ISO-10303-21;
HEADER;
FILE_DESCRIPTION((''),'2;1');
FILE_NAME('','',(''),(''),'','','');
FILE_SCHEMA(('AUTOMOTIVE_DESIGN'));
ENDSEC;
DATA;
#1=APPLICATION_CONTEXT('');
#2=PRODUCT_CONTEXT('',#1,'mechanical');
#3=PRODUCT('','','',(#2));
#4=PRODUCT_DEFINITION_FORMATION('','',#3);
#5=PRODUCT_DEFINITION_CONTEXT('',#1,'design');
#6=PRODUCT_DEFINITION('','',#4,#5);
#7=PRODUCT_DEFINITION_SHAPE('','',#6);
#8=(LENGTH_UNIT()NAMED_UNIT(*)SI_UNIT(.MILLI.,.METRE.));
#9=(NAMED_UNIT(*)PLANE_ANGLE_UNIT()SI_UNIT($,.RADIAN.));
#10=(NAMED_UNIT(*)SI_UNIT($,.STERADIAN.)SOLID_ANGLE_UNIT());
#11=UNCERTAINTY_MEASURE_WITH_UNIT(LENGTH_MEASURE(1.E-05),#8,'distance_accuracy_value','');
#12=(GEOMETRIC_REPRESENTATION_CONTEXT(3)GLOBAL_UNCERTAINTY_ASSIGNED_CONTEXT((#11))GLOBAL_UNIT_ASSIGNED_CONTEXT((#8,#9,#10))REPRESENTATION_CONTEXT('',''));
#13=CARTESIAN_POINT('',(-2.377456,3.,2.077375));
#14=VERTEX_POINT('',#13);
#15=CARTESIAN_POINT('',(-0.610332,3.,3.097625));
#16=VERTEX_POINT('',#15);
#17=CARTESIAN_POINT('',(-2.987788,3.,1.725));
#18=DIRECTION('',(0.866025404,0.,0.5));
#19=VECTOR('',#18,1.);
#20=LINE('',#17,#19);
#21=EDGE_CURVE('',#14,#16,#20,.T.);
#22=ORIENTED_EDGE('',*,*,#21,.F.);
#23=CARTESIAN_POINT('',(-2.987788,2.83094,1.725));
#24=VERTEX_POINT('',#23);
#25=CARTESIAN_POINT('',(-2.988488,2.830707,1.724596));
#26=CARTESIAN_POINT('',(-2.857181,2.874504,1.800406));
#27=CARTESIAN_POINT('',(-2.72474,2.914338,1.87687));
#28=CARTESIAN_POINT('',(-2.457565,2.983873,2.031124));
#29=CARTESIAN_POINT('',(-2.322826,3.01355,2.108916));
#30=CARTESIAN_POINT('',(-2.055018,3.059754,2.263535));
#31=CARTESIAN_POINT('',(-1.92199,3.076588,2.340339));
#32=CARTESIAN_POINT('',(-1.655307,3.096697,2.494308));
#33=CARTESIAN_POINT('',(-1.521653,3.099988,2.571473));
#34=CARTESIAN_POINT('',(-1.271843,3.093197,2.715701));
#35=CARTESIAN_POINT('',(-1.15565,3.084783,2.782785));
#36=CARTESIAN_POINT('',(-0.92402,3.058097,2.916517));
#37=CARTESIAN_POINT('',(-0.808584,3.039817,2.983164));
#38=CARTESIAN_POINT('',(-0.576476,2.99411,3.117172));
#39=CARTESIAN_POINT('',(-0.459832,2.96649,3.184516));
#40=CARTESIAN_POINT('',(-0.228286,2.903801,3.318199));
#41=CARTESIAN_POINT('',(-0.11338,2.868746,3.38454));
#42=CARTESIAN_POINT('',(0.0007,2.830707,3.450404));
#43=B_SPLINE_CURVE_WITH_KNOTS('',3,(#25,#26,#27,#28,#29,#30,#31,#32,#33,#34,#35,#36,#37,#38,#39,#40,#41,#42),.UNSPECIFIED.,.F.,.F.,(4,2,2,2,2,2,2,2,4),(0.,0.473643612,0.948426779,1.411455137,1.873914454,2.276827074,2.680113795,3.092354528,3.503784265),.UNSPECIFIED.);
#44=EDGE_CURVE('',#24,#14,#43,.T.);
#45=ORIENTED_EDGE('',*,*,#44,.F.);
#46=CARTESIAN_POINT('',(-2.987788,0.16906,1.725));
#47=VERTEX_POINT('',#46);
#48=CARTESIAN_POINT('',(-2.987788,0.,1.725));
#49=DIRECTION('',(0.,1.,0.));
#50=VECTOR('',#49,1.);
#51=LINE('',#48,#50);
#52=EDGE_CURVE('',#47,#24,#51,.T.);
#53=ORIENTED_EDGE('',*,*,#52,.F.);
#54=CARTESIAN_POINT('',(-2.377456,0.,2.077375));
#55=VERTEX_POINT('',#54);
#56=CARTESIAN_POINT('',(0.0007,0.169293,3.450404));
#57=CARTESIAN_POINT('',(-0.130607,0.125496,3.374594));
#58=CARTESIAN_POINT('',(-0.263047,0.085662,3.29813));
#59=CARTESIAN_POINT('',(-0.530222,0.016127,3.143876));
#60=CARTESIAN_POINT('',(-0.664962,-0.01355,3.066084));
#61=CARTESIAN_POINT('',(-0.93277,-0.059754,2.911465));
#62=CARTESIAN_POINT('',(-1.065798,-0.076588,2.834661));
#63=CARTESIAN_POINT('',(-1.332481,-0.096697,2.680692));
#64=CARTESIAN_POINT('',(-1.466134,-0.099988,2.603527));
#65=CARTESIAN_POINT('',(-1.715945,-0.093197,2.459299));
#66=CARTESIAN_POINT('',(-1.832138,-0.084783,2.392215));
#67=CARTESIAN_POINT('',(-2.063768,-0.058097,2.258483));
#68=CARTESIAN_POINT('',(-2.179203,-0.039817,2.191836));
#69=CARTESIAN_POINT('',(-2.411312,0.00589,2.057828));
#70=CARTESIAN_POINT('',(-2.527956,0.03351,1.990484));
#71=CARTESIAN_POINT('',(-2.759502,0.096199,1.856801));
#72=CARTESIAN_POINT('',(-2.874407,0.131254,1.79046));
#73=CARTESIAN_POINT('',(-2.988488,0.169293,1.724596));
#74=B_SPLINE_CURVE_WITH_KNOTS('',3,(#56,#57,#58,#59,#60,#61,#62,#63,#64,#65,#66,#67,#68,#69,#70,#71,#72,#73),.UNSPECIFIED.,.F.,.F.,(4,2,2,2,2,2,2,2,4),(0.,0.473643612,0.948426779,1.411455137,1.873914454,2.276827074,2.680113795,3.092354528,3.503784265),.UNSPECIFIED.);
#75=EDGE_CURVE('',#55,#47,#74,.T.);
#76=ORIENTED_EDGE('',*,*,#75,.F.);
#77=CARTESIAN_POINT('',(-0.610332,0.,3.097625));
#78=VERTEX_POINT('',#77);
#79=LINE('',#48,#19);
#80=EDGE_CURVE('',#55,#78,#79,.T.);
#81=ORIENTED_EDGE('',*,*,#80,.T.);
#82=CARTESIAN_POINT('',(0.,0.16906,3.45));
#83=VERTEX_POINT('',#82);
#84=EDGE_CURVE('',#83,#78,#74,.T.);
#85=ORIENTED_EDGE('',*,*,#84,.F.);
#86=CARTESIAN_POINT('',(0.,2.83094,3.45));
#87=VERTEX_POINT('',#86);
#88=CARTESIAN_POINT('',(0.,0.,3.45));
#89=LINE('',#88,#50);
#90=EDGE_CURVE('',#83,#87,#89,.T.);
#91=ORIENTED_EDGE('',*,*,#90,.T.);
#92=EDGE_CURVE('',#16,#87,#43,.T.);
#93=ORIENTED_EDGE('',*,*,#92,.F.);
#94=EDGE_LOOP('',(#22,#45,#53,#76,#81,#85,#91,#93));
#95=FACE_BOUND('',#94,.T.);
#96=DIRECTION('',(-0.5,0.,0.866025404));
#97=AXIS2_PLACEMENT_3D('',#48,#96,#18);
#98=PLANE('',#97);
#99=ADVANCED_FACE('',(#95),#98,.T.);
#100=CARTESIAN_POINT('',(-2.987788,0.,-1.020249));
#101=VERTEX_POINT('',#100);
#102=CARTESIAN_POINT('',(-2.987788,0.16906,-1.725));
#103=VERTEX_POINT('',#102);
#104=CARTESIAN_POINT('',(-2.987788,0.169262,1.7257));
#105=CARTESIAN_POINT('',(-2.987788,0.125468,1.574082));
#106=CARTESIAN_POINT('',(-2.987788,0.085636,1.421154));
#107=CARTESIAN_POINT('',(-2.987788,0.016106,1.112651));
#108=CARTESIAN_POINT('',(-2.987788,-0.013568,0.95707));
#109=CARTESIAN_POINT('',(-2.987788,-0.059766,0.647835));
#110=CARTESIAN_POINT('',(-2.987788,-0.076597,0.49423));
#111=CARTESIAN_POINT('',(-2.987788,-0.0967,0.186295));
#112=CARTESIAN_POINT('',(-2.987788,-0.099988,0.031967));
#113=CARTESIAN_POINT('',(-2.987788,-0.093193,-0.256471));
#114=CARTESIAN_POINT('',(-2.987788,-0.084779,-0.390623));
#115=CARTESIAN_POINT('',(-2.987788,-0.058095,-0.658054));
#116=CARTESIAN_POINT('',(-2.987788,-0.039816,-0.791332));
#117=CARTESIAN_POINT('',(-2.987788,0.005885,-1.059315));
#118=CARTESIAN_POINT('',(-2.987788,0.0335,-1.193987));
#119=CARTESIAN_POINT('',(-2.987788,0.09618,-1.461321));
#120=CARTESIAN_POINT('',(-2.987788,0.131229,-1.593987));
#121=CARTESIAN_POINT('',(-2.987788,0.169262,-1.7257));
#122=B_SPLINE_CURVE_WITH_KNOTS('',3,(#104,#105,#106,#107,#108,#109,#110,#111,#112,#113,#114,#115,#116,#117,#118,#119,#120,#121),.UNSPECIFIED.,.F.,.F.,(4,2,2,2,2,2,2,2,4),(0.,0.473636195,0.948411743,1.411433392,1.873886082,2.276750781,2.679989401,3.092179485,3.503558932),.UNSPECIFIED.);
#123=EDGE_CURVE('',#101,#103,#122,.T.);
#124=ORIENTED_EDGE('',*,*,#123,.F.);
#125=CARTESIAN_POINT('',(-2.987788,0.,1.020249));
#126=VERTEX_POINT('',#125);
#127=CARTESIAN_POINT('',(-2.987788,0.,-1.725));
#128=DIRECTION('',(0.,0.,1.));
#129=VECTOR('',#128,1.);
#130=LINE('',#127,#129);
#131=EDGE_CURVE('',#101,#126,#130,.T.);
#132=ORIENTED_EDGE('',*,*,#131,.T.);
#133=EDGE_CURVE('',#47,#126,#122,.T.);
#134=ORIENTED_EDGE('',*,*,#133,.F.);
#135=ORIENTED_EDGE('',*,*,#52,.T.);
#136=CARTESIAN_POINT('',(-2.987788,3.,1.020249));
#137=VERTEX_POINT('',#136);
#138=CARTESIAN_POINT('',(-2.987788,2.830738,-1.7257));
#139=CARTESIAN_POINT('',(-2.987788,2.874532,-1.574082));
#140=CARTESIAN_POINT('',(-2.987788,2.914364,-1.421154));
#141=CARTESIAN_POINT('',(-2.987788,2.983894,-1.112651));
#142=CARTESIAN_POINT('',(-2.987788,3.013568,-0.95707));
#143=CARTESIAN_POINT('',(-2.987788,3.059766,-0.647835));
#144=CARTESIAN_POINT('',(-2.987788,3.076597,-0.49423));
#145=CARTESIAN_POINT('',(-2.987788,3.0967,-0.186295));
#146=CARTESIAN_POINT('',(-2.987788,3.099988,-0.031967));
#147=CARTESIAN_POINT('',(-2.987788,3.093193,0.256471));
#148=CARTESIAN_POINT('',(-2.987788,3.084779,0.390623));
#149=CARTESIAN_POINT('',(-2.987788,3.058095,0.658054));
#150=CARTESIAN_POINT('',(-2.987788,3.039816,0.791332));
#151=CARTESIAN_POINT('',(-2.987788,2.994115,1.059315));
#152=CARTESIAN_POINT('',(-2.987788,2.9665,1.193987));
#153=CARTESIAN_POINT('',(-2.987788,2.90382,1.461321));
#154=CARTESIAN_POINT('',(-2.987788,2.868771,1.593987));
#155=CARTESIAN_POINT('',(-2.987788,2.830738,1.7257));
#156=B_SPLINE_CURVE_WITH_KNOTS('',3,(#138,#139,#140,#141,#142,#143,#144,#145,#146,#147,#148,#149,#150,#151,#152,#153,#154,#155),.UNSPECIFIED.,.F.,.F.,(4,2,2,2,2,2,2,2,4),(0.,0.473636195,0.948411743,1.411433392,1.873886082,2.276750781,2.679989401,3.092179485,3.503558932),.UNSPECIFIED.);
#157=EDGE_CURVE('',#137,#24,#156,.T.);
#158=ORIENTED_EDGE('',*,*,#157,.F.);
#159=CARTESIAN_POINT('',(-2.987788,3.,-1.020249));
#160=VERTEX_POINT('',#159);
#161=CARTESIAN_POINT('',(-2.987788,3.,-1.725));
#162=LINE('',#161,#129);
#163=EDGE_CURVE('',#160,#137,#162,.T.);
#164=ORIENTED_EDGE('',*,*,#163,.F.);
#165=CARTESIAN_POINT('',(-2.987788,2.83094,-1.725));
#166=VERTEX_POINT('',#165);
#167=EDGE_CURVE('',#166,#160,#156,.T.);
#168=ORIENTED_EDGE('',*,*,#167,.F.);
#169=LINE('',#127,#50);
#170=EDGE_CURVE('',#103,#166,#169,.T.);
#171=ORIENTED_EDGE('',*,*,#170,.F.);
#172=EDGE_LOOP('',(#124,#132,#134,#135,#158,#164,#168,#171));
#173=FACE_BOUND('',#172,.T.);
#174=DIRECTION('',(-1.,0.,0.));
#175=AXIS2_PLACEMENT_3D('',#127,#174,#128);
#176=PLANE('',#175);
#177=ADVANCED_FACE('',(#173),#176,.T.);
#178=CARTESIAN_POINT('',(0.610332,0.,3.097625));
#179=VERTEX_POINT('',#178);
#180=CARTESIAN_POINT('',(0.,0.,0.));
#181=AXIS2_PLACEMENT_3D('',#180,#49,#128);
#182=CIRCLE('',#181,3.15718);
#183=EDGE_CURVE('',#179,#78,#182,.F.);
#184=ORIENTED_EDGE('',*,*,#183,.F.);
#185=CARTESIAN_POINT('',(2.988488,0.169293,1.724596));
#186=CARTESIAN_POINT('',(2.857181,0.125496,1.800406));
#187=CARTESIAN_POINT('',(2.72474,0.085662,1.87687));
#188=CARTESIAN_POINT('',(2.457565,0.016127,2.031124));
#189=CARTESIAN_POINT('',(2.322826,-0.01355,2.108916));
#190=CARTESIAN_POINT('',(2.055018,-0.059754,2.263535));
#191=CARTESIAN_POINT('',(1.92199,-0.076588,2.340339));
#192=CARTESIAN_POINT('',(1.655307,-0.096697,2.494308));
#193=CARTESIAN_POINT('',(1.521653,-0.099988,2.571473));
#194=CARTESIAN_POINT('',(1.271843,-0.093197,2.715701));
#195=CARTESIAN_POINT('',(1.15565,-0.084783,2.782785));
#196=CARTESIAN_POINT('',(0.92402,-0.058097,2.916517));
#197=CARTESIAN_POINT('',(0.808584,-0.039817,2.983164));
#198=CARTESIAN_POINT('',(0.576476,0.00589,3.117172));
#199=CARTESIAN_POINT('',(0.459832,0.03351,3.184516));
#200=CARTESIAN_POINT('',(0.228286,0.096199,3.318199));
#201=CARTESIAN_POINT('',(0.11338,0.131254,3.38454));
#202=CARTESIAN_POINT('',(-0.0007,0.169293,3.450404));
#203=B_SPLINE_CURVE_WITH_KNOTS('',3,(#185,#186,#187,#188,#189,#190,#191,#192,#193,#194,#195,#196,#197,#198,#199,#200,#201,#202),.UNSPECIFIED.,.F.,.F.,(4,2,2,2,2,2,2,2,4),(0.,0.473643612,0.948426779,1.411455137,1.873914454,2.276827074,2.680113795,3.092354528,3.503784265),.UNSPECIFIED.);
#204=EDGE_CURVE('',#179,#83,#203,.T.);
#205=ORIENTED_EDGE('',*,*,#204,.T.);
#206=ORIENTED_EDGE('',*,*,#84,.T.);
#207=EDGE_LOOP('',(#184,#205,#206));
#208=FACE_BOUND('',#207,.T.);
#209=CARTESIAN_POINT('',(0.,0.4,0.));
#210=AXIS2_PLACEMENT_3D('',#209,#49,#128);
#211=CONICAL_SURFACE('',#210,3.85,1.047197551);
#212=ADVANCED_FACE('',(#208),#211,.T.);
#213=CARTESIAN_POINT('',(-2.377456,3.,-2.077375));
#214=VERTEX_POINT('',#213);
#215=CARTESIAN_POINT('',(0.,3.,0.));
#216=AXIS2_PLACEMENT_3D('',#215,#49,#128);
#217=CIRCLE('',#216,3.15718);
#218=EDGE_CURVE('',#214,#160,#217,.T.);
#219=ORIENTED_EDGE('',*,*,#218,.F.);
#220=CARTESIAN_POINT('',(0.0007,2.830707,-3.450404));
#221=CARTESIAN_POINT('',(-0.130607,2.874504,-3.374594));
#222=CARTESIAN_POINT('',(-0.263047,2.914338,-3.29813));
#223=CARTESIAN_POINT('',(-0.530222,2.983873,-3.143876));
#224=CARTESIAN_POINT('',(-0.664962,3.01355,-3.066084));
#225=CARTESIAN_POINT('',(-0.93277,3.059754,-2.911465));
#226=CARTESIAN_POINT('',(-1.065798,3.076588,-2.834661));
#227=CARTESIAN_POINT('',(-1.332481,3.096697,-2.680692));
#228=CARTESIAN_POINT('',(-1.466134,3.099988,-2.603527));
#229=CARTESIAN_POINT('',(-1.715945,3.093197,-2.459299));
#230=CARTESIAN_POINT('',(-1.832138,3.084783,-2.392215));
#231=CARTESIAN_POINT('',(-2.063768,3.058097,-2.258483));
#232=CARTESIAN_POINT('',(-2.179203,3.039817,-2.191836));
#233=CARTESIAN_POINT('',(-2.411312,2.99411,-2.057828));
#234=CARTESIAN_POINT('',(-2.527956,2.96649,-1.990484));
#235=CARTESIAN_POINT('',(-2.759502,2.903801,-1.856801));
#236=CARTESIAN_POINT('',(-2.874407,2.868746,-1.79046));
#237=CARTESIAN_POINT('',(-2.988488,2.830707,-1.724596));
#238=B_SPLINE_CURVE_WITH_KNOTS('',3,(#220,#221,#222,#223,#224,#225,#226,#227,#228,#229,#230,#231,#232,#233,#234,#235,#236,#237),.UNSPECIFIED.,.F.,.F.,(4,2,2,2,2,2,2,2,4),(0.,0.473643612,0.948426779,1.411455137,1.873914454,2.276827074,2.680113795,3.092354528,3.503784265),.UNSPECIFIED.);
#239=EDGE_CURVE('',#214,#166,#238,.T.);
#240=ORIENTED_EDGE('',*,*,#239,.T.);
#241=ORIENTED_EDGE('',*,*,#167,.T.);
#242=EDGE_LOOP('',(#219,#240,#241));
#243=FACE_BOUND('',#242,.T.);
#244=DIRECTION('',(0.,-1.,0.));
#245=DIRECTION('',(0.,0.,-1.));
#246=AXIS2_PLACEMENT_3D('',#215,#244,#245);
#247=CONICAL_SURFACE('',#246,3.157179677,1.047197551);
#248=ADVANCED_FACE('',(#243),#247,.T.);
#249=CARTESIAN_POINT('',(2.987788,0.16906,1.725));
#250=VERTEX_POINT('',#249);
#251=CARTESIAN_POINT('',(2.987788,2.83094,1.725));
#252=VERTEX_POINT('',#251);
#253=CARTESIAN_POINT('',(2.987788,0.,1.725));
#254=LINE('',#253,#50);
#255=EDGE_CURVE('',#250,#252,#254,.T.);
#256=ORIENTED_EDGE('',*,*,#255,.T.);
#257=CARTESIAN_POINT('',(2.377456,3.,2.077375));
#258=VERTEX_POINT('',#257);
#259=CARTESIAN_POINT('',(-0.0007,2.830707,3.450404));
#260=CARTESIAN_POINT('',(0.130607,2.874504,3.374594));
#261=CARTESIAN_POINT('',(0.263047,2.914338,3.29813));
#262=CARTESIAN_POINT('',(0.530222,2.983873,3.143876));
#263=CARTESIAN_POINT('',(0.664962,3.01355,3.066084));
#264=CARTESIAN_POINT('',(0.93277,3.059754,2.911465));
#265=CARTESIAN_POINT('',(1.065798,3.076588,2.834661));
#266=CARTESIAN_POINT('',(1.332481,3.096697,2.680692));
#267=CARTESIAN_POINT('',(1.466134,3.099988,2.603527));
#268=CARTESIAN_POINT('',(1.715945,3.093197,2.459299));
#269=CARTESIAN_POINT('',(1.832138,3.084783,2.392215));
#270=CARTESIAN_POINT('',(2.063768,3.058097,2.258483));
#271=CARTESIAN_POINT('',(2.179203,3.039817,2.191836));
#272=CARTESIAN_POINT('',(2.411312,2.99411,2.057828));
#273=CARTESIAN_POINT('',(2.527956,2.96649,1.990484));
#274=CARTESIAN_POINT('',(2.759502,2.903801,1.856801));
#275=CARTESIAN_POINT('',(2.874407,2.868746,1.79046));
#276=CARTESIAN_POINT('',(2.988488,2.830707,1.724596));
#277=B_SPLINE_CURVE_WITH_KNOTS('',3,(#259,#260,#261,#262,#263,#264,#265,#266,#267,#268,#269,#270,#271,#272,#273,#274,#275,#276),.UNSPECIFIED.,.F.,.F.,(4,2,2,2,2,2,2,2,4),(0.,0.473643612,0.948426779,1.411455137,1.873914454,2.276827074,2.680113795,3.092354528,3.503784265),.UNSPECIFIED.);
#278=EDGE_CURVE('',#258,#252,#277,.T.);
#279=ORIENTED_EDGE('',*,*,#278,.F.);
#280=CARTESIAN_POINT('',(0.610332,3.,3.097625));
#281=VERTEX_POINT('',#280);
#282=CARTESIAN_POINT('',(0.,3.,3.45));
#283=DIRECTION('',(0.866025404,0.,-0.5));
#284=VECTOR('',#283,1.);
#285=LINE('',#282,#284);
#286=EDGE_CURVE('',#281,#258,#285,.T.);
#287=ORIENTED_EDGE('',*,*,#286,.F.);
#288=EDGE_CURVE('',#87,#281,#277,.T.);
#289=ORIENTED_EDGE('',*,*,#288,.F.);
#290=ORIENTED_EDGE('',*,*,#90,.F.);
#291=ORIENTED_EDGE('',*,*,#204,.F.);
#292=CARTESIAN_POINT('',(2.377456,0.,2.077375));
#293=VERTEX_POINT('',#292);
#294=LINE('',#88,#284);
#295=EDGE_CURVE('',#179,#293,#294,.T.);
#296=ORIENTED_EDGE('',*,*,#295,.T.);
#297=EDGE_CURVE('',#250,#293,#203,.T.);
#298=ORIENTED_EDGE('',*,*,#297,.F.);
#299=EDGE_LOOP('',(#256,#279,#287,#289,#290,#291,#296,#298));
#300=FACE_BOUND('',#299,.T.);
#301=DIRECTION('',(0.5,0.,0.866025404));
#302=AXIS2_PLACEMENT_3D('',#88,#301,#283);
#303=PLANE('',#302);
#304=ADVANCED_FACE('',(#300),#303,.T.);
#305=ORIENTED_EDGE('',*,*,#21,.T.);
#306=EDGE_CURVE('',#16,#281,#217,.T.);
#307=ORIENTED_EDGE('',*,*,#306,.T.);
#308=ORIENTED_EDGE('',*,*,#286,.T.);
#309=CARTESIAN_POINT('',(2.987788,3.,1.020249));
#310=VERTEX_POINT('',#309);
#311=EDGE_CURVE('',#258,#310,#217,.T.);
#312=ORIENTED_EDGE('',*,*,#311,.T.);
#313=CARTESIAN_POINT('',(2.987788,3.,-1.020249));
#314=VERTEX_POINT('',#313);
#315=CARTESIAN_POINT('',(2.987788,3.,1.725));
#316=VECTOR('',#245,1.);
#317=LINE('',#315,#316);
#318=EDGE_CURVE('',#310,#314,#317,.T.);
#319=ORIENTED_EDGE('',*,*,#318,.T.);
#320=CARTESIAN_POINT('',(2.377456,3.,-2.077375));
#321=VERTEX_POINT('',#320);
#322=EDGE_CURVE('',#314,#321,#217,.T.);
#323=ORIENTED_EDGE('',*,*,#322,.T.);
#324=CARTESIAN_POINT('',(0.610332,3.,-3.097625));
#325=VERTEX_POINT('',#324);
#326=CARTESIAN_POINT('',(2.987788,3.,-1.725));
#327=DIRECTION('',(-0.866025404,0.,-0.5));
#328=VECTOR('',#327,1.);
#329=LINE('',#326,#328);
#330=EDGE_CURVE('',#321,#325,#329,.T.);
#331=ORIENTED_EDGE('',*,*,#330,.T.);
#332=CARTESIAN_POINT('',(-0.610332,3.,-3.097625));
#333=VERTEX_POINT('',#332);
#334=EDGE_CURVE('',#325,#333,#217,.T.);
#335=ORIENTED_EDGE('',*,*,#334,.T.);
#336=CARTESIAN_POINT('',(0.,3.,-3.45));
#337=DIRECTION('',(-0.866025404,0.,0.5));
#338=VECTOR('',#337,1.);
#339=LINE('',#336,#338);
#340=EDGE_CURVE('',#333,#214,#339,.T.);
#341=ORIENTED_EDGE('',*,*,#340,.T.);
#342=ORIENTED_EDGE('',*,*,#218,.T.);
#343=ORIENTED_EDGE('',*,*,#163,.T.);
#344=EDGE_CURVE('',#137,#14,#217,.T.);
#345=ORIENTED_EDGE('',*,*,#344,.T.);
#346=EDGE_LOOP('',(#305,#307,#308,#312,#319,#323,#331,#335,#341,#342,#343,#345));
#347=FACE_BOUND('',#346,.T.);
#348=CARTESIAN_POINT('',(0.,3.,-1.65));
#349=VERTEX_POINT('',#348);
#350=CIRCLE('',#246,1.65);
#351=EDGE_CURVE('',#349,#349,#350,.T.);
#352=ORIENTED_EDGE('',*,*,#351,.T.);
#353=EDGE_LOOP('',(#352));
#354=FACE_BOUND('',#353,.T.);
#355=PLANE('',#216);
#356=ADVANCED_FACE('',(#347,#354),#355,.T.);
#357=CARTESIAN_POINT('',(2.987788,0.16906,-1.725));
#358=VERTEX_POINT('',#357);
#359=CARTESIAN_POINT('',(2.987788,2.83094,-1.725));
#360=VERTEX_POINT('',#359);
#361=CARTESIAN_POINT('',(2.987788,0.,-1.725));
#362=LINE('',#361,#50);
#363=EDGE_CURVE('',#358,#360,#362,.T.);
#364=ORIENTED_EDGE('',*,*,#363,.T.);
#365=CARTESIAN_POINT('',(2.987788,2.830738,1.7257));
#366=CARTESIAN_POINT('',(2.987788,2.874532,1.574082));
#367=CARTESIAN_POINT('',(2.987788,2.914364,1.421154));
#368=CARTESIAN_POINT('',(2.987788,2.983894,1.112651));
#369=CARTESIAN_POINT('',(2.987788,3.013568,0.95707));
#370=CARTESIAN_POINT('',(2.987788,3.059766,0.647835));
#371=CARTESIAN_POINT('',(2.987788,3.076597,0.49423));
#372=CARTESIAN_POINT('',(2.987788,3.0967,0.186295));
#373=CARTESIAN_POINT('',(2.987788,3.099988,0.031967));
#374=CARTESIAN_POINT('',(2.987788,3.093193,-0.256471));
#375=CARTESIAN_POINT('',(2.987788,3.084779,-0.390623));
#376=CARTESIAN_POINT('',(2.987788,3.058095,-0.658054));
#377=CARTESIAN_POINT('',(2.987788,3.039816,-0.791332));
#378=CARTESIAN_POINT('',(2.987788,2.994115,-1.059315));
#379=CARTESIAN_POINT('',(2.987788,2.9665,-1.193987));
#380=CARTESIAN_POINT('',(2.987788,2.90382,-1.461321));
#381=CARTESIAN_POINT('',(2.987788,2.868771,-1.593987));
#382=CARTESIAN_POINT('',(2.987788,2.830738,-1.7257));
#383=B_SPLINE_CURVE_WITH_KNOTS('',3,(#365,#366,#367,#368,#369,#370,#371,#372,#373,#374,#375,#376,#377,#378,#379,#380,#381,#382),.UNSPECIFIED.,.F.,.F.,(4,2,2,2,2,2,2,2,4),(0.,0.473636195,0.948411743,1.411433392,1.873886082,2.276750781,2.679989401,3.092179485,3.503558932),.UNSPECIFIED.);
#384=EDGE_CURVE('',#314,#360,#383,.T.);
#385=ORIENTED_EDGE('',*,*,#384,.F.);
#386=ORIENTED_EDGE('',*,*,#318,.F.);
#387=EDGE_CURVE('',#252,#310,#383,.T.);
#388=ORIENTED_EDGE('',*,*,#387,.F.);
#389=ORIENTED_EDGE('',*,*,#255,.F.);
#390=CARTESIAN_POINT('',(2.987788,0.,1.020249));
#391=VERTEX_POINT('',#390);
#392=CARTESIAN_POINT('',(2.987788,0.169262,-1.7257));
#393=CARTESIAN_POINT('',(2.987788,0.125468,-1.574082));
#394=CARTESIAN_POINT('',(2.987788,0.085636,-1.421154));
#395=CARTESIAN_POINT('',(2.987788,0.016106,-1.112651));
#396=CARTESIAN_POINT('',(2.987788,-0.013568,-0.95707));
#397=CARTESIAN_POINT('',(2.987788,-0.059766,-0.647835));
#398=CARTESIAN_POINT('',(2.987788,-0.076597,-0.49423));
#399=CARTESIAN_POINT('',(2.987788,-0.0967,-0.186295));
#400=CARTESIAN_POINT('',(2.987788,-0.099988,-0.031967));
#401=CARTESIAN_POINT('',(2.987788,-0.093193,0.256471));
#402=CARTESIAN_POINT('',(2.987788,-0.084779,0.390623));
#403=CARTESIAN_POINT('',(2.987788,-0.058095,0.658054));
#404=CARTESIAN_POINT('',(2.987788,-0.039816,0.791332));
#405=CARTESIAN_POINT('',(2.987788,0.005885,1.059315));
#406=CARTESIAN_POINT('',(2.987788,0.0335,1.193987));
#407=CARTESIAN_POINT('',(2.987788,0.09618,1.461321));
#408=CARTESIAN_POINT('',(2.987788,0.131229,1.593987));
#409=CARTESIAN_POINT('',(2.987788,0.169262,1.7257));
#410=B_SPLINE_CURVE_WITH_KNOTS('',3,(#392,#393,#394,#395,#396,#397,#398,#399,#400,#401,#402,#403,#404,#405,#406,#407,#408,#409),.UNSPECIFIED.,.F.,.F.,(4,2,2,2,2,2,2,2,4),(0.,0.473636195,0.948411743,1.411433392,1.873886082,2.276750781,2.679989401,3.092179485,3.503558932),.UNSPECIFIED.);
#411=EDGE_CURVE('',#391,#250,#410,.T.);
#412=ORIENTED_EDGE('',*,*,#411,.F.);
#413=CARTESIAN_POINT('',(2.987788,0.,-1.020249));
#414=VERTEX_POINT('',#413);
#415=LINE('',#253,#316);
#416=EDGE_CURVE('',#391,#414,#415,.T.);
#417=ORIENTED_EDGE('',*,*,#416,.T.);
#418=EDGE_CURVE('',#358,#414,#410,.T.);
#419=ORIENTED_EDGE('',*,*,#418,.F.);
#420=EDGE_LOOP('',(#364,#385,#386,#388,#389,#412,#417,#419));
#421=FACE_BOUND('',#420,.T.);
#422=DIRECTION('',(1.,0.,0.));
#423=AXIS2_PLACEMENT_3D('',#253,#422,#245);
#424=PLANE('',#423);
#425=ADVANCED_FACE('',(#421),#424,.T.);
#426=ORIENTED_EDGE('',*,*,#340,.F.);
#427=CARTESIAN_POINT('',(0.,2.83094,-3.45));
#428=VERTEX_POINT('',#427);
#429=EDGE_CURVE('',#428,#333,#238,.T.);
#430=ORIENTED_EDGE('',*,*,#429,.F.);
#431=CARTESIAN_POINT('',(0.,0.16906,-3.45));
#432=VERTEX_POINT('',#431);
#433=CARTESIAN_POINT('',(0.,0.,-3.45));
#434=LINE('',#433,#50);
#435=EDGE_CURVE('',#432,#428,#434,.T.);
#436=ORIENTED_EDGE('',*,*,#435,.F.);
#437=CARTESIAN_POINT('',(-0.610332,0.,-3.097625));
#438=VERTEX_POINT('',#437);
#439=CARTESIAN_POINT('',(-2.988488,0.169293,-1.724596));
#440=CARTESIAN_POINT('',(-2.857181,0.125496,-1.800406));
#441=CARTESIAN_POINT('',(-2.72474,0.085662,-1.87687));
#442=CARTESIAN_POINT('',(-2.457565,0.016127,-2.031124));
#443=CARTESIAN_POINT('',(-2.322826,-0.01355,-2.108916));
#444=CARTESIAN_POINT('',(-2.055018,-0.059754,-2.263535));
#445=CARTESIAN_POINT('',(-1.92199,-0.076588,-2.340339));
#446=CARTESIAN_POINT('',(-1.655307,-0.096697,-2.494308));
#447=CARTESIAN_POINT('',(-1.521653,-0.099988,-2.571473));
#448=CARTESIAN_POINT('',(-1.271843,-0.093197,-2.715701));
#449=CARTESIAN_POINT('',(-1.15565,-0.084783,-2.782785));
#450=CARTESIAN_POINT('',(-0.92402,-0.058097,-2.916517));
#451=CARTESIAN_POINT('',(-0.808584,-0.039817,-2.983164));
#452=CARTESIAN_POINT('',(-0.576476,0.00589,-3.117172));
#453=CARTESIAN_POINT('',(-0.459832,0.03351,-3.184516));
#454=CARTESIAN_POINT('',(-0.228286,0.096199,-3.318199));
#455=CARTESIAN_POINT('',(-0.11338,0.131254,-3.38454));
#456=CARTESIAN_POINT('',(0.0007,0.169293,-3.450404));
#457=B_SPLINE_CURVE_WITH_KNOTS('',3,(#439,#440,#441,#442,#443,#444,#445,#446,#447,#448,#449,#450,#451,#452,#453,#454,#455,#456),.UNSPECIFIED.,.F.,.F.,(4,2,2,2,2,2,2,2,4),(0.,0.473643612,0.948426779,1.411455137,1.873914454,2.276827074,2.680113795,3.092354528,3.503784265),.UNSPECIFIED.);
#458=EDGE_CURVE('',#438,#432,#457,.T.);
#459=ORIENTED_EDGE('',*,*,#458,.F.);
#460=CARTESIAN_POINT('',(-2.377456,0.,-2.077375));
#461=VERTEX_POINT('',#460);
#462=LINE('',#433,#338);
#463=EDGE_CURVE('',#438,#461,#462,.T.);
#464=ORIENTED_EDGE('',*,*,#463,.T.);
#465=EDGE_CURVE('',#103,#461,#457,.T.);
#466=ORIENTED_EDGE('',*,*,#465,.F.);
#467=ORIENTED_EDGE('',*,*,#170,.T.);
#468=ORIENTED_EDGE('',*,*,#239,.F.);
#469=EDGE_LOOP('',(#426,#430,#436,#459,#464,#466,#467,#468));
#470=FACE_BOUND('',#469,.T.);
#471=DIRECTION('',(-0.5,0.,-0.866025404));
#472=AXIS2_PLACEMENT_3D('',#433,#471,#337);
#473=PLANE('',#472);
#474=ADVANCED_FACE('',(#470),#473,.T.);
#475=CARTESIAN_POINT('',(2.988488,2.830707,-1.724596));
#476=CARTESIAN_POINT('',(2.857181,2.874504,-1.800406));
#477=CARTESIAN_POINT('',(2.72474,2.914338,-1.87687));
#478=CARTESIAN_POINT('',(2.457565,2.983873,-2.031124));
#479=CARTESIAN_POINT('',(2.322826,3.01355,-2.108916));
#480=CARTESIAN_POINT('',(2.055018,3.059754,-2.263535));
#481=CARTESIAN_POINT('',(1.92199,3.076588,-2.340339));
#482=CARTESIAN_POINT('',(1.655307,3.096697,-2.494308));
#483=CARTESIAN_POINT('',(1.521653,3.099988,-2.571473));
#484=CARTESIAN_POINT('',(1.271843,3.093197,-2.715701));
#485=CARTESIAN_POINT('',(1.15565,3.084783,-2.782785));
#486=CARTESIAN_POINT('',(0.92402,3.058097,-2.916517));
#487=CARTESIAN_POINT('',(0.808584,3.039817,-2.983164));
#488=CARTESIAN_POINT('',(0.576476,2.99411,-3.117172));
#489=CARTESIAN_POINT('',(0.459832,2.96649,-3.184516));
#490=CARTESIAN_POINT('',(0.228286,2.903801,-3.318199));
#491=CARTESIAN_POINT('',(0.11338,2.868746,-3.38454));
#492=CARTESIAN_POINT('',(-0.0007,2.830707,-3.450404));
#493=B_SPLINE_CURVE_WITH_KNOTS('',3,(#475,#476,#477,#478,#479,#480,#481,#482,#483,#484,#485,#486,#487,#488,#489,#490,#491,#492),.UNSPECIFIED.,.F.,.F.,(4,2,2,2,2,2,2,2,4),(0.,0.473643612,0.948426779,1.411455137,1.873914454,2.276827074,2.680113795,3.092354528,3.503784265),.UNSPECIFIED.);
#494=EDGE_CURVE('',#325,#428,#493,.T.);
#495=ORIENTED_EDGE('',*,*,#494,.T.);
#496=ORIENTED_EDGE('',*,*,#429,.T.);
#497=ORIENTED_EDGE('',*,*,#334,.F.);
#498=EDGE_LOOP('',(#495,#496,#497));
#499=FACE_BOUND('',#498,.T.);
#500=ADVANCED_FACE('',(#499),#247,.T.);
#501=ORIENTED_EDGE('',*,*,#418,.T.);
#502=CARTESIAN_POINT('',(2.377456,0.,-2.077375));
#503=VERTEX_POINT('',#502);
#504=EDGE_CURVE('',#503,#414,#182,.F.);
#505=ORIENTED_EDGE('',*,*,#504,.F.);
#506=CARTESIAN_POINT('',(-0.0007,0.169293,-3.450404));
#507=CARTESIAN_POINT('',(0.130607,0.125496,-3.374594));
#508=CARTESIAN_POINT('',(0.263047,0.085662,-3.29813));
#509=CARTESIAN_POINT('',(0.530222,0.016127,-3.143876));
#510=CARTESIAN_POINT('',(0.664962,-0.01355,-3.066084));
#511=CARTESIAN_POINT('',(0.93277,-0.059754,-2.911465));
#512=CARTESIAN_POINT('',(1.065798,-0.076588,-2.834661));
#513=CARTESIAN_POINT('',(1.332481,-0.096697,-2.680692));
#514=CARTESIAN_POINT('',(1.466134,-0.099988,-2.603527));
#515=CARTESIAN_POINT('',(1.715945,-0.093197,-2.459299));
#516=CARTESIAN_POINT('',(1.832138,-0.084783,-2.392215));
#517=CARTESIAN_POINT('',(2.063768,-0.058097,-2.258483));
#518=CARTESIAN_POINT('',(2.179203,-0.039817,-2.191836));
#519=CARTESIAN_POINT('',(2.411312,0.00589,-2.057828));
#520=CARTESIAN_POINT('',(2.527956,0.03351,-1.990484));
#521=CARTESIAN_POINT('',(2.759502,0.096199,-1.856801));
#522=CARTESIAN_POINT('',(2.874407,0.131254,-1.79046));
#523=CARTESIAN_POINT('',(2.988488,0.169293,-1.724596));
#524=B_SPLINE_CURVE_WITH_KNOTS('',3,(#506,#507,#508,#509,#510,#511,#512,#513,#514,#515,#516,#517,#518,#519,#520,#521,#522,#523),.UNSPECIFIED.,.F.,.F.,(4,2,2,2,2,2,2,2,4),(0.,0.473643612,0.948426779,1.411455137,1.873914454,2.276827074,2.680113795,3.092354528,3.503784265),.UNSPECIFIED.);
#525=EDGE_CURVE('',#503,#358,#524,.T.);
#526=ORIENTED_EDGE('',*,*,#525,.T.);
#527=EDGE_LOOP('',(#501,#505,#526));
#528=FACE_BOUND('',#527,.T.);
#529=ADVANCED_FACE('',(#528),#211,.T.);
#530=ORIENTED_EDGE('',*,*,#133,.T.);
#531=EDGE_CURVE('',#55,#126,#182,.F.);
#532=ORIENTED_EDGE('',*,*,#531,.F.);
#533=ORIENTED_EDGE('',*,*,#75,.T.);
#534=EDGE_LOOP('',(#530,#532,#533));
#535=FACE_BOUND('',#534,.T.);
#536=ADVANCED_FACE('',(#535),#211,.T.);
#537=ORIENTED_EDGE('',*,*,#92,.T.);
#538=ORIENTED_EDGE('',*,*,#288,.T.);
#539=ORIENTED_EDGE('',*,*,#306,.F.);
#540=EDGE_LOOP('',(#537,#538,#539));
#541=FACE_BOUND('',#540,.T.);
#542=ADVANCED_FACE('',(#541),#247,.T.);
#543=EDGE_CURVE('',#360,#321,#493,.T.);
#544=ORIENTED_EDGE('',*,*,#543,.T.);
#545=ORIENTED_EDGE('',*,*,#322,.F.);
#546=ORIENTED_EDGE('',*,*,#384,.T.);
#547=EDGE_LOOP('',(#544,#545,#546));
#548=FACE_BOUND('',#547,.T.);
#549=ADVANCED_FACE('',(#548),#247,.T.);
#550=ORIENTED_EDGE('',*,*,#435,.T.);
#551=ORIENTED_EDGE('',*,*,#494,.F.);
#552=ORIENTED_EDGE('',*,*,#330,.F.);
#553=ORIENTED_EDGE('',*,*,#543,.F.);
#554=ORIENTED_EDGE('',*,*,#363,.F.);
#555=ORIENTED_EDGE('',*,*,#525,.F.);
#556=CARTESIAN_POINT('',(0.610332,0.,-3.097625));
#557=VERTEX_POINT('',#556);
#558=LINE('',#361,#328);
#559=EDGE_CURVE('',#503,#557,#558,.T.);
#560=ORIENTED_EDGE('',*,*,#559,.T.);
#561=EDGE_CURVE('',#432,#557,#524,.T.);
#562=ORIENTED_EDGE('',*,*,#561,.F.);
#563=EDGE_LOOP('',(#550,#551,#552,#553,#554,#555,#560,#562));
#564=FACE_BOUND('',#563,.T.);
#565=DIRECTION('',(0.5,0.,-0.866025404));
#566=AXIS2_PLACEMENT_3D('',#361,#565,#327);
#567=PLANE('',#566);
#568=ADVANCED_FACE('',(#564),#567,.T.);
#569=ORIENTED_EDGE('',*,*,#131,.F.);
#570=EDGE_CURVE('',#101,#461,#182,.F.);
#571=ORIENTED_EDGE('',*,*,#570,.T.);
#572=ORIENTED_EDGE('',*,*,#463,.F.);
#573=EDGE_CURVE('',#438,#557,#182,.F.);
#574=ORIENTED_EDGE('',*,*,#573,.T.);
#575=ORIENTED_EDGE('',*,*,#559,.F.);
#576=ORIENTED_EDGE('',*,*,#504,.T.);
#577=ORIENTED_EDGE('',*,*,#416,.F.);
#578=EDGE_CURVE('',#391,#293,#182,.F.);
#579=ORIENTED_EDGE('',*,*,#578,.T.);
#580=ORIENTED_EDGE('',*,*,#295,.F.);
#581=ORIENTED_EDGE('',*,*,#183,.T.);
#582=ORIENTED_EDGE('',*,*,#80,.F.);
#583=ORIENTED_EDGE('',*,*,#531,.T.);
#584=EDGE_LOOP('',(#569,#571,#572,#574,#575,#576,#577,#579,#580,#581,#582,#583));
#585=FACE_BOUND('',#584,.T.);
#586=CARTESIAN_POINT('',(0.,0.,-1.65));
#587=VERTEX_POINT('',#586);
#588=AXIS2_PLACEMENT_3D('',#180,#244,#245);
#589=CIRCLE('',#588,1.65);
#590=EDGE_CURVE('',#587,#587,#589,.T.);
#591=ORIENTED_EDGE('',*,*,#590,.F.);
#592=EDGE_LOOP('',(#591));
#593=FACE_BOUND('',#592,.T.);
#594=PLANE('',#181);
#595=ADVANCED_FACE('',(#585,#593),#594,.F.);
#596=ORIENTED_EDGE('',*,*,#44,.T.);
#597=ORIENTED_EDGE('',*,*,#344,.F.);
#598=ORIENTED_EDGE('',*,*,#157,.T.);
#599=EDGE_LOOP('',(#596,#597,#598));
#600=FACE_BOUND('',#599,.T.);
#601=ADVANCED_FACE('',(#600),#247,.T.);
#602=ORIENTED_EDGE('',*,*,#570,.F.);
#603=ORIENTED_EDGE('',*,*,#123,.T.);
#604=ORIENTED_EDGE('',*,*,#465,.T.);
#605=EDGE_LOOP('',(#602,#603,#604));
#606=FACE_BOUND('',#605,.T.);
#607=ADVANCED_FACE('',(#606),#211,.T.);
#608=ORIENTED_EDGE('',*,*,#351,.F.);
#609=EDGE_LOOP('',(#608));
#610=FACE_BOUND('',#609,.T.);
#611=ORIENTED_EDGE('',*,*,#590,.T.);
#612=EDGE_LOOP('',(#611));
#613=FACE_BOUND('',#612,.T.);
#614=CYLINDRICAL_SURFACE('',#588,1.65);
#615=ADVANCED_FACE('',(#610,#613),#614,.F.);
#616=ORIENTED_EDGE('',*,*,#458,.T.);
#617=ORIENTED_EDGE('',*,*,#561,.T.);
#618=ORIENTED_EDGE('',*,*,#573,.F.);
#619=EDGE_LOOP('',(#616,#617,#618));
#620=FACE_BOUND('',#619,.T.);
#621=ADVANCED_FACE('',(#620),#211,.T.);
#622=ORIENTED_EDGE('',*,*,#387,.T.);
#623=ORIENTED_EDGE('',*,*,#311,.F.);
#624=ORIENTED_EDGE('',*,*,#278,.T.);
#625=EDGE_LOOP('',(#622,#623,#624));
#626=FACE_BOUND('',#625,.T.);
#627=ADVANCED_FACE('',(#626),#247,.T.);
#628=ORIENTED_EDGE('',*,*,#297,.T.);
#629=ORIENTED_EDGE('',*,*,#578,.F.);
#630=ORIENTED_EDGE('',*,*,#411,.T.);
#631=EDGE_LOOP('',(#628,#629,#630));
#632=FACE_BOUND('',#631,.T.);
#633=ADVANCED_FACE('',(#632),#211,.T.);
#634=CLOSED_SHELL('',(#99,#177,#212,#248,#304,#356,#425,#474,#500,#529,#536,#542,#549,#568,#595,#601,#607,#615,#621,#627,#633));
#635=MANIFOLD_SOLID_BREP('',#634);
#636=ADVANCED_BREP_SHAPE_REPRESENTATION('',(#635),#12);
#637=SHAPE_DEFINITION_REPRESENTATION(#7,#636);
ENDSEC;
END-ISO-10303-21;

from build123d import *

# Parameters (mm, degrees)
SKETCH_1_R          = 3.85
EXTRUDE_1_DEPTH     = 3
CHAMFER_6_SIZE      = 0.4
CHAMFER_6_SIZE2     = 0.692820323
CHAMFER_7_SIZE      = 0.4
CHAMFER_7_SIZE2     = 0.692820323
SKETCH_3_OUTSIDE_W  = 11.96
SKETCH_3_OUTSIDE_H  = 11.96
CUT_EXTRUDE_4_DEPTH = 3
HOLE_WIZARD_M42_D   = 3.3


with BuildPart() as part:
    # Эскиз1 → Бобышка-Вытянуть1 (new body)
    with BuildSketch(Plane(origin=(0, 0, 0), x_dir=(1, 0, 0), z_dir=(0, 1, 0))):
        with Locations(Location((0, 0, 0), (0, 0, 270))):
            Circle(SKETCH_1_R)
    extrude(amount=EXTRUDE_1_DEPTH)

    # Фаска6
    chamfer_6_edges = [part.edges().sort_by_distance(p)[0] for p in [
        (0, 0, -3.85),
    ]]
    chamfer_6_side = [part.faces().sort_by_distance(p)[0] for p in [
        (0, 1.5, -3.85),
    ]]
    chamfer(chamfer_6_edges, length=CHAMFER_6_SIZE, length2=CHAMFER_6_SIZE2, reference=chamfer_6_side[0])

    # Фаска7
    chamfer_7_edges = [part.edges().sort_by_distance(p)[0] for p in [
        (0, 3, -3.85),
    ]]
    chamfer_7_side = [part.faces().sort_by_distance(p)[0] for p in [
        (0, 1.7, -3.85),
    ]]
    chamfer(chamfer_7_edges, length=CHAMFER_7_SIZE, length2=CHAMFER_7_SIZE2, reference=chamfer_7_side[0])

    # Эскиз3 outside → Вырез-Вытянуть4 (cut)
    with BuildSketch(Plane(origin=(0, 3, 0), x_dir=(1, 0, 0), z_dir=(0, 1, 0))):
        Rectangle(SKETCH_3_OUTSIDE_W, SKETCH_3_OUTSIDE_H)
        Polygon((2.987787643, -1.725), (2.987787643, 1.725), (0, 3.45), (-2.987787643, 1.725), (-2.987787643, -1.725), (0, -3.45), align=None, mode=Mode.SUBTRACT)
    extrude(amount=-CUT_EXTRUDE_4_DEPTH, mode=Mode.SUBTRACT)

    # Отверстие обработанное метчиком M42 (through all)
    with Locations(Plane(origin=(0, 0, 0), x_dir=(-1, 0, 0), z_dir=(0, -1, 0))):
        with Locations((0, 0)):
            Hole(HOLE_WIZARD_M42_D / 2)


solid = part.part
